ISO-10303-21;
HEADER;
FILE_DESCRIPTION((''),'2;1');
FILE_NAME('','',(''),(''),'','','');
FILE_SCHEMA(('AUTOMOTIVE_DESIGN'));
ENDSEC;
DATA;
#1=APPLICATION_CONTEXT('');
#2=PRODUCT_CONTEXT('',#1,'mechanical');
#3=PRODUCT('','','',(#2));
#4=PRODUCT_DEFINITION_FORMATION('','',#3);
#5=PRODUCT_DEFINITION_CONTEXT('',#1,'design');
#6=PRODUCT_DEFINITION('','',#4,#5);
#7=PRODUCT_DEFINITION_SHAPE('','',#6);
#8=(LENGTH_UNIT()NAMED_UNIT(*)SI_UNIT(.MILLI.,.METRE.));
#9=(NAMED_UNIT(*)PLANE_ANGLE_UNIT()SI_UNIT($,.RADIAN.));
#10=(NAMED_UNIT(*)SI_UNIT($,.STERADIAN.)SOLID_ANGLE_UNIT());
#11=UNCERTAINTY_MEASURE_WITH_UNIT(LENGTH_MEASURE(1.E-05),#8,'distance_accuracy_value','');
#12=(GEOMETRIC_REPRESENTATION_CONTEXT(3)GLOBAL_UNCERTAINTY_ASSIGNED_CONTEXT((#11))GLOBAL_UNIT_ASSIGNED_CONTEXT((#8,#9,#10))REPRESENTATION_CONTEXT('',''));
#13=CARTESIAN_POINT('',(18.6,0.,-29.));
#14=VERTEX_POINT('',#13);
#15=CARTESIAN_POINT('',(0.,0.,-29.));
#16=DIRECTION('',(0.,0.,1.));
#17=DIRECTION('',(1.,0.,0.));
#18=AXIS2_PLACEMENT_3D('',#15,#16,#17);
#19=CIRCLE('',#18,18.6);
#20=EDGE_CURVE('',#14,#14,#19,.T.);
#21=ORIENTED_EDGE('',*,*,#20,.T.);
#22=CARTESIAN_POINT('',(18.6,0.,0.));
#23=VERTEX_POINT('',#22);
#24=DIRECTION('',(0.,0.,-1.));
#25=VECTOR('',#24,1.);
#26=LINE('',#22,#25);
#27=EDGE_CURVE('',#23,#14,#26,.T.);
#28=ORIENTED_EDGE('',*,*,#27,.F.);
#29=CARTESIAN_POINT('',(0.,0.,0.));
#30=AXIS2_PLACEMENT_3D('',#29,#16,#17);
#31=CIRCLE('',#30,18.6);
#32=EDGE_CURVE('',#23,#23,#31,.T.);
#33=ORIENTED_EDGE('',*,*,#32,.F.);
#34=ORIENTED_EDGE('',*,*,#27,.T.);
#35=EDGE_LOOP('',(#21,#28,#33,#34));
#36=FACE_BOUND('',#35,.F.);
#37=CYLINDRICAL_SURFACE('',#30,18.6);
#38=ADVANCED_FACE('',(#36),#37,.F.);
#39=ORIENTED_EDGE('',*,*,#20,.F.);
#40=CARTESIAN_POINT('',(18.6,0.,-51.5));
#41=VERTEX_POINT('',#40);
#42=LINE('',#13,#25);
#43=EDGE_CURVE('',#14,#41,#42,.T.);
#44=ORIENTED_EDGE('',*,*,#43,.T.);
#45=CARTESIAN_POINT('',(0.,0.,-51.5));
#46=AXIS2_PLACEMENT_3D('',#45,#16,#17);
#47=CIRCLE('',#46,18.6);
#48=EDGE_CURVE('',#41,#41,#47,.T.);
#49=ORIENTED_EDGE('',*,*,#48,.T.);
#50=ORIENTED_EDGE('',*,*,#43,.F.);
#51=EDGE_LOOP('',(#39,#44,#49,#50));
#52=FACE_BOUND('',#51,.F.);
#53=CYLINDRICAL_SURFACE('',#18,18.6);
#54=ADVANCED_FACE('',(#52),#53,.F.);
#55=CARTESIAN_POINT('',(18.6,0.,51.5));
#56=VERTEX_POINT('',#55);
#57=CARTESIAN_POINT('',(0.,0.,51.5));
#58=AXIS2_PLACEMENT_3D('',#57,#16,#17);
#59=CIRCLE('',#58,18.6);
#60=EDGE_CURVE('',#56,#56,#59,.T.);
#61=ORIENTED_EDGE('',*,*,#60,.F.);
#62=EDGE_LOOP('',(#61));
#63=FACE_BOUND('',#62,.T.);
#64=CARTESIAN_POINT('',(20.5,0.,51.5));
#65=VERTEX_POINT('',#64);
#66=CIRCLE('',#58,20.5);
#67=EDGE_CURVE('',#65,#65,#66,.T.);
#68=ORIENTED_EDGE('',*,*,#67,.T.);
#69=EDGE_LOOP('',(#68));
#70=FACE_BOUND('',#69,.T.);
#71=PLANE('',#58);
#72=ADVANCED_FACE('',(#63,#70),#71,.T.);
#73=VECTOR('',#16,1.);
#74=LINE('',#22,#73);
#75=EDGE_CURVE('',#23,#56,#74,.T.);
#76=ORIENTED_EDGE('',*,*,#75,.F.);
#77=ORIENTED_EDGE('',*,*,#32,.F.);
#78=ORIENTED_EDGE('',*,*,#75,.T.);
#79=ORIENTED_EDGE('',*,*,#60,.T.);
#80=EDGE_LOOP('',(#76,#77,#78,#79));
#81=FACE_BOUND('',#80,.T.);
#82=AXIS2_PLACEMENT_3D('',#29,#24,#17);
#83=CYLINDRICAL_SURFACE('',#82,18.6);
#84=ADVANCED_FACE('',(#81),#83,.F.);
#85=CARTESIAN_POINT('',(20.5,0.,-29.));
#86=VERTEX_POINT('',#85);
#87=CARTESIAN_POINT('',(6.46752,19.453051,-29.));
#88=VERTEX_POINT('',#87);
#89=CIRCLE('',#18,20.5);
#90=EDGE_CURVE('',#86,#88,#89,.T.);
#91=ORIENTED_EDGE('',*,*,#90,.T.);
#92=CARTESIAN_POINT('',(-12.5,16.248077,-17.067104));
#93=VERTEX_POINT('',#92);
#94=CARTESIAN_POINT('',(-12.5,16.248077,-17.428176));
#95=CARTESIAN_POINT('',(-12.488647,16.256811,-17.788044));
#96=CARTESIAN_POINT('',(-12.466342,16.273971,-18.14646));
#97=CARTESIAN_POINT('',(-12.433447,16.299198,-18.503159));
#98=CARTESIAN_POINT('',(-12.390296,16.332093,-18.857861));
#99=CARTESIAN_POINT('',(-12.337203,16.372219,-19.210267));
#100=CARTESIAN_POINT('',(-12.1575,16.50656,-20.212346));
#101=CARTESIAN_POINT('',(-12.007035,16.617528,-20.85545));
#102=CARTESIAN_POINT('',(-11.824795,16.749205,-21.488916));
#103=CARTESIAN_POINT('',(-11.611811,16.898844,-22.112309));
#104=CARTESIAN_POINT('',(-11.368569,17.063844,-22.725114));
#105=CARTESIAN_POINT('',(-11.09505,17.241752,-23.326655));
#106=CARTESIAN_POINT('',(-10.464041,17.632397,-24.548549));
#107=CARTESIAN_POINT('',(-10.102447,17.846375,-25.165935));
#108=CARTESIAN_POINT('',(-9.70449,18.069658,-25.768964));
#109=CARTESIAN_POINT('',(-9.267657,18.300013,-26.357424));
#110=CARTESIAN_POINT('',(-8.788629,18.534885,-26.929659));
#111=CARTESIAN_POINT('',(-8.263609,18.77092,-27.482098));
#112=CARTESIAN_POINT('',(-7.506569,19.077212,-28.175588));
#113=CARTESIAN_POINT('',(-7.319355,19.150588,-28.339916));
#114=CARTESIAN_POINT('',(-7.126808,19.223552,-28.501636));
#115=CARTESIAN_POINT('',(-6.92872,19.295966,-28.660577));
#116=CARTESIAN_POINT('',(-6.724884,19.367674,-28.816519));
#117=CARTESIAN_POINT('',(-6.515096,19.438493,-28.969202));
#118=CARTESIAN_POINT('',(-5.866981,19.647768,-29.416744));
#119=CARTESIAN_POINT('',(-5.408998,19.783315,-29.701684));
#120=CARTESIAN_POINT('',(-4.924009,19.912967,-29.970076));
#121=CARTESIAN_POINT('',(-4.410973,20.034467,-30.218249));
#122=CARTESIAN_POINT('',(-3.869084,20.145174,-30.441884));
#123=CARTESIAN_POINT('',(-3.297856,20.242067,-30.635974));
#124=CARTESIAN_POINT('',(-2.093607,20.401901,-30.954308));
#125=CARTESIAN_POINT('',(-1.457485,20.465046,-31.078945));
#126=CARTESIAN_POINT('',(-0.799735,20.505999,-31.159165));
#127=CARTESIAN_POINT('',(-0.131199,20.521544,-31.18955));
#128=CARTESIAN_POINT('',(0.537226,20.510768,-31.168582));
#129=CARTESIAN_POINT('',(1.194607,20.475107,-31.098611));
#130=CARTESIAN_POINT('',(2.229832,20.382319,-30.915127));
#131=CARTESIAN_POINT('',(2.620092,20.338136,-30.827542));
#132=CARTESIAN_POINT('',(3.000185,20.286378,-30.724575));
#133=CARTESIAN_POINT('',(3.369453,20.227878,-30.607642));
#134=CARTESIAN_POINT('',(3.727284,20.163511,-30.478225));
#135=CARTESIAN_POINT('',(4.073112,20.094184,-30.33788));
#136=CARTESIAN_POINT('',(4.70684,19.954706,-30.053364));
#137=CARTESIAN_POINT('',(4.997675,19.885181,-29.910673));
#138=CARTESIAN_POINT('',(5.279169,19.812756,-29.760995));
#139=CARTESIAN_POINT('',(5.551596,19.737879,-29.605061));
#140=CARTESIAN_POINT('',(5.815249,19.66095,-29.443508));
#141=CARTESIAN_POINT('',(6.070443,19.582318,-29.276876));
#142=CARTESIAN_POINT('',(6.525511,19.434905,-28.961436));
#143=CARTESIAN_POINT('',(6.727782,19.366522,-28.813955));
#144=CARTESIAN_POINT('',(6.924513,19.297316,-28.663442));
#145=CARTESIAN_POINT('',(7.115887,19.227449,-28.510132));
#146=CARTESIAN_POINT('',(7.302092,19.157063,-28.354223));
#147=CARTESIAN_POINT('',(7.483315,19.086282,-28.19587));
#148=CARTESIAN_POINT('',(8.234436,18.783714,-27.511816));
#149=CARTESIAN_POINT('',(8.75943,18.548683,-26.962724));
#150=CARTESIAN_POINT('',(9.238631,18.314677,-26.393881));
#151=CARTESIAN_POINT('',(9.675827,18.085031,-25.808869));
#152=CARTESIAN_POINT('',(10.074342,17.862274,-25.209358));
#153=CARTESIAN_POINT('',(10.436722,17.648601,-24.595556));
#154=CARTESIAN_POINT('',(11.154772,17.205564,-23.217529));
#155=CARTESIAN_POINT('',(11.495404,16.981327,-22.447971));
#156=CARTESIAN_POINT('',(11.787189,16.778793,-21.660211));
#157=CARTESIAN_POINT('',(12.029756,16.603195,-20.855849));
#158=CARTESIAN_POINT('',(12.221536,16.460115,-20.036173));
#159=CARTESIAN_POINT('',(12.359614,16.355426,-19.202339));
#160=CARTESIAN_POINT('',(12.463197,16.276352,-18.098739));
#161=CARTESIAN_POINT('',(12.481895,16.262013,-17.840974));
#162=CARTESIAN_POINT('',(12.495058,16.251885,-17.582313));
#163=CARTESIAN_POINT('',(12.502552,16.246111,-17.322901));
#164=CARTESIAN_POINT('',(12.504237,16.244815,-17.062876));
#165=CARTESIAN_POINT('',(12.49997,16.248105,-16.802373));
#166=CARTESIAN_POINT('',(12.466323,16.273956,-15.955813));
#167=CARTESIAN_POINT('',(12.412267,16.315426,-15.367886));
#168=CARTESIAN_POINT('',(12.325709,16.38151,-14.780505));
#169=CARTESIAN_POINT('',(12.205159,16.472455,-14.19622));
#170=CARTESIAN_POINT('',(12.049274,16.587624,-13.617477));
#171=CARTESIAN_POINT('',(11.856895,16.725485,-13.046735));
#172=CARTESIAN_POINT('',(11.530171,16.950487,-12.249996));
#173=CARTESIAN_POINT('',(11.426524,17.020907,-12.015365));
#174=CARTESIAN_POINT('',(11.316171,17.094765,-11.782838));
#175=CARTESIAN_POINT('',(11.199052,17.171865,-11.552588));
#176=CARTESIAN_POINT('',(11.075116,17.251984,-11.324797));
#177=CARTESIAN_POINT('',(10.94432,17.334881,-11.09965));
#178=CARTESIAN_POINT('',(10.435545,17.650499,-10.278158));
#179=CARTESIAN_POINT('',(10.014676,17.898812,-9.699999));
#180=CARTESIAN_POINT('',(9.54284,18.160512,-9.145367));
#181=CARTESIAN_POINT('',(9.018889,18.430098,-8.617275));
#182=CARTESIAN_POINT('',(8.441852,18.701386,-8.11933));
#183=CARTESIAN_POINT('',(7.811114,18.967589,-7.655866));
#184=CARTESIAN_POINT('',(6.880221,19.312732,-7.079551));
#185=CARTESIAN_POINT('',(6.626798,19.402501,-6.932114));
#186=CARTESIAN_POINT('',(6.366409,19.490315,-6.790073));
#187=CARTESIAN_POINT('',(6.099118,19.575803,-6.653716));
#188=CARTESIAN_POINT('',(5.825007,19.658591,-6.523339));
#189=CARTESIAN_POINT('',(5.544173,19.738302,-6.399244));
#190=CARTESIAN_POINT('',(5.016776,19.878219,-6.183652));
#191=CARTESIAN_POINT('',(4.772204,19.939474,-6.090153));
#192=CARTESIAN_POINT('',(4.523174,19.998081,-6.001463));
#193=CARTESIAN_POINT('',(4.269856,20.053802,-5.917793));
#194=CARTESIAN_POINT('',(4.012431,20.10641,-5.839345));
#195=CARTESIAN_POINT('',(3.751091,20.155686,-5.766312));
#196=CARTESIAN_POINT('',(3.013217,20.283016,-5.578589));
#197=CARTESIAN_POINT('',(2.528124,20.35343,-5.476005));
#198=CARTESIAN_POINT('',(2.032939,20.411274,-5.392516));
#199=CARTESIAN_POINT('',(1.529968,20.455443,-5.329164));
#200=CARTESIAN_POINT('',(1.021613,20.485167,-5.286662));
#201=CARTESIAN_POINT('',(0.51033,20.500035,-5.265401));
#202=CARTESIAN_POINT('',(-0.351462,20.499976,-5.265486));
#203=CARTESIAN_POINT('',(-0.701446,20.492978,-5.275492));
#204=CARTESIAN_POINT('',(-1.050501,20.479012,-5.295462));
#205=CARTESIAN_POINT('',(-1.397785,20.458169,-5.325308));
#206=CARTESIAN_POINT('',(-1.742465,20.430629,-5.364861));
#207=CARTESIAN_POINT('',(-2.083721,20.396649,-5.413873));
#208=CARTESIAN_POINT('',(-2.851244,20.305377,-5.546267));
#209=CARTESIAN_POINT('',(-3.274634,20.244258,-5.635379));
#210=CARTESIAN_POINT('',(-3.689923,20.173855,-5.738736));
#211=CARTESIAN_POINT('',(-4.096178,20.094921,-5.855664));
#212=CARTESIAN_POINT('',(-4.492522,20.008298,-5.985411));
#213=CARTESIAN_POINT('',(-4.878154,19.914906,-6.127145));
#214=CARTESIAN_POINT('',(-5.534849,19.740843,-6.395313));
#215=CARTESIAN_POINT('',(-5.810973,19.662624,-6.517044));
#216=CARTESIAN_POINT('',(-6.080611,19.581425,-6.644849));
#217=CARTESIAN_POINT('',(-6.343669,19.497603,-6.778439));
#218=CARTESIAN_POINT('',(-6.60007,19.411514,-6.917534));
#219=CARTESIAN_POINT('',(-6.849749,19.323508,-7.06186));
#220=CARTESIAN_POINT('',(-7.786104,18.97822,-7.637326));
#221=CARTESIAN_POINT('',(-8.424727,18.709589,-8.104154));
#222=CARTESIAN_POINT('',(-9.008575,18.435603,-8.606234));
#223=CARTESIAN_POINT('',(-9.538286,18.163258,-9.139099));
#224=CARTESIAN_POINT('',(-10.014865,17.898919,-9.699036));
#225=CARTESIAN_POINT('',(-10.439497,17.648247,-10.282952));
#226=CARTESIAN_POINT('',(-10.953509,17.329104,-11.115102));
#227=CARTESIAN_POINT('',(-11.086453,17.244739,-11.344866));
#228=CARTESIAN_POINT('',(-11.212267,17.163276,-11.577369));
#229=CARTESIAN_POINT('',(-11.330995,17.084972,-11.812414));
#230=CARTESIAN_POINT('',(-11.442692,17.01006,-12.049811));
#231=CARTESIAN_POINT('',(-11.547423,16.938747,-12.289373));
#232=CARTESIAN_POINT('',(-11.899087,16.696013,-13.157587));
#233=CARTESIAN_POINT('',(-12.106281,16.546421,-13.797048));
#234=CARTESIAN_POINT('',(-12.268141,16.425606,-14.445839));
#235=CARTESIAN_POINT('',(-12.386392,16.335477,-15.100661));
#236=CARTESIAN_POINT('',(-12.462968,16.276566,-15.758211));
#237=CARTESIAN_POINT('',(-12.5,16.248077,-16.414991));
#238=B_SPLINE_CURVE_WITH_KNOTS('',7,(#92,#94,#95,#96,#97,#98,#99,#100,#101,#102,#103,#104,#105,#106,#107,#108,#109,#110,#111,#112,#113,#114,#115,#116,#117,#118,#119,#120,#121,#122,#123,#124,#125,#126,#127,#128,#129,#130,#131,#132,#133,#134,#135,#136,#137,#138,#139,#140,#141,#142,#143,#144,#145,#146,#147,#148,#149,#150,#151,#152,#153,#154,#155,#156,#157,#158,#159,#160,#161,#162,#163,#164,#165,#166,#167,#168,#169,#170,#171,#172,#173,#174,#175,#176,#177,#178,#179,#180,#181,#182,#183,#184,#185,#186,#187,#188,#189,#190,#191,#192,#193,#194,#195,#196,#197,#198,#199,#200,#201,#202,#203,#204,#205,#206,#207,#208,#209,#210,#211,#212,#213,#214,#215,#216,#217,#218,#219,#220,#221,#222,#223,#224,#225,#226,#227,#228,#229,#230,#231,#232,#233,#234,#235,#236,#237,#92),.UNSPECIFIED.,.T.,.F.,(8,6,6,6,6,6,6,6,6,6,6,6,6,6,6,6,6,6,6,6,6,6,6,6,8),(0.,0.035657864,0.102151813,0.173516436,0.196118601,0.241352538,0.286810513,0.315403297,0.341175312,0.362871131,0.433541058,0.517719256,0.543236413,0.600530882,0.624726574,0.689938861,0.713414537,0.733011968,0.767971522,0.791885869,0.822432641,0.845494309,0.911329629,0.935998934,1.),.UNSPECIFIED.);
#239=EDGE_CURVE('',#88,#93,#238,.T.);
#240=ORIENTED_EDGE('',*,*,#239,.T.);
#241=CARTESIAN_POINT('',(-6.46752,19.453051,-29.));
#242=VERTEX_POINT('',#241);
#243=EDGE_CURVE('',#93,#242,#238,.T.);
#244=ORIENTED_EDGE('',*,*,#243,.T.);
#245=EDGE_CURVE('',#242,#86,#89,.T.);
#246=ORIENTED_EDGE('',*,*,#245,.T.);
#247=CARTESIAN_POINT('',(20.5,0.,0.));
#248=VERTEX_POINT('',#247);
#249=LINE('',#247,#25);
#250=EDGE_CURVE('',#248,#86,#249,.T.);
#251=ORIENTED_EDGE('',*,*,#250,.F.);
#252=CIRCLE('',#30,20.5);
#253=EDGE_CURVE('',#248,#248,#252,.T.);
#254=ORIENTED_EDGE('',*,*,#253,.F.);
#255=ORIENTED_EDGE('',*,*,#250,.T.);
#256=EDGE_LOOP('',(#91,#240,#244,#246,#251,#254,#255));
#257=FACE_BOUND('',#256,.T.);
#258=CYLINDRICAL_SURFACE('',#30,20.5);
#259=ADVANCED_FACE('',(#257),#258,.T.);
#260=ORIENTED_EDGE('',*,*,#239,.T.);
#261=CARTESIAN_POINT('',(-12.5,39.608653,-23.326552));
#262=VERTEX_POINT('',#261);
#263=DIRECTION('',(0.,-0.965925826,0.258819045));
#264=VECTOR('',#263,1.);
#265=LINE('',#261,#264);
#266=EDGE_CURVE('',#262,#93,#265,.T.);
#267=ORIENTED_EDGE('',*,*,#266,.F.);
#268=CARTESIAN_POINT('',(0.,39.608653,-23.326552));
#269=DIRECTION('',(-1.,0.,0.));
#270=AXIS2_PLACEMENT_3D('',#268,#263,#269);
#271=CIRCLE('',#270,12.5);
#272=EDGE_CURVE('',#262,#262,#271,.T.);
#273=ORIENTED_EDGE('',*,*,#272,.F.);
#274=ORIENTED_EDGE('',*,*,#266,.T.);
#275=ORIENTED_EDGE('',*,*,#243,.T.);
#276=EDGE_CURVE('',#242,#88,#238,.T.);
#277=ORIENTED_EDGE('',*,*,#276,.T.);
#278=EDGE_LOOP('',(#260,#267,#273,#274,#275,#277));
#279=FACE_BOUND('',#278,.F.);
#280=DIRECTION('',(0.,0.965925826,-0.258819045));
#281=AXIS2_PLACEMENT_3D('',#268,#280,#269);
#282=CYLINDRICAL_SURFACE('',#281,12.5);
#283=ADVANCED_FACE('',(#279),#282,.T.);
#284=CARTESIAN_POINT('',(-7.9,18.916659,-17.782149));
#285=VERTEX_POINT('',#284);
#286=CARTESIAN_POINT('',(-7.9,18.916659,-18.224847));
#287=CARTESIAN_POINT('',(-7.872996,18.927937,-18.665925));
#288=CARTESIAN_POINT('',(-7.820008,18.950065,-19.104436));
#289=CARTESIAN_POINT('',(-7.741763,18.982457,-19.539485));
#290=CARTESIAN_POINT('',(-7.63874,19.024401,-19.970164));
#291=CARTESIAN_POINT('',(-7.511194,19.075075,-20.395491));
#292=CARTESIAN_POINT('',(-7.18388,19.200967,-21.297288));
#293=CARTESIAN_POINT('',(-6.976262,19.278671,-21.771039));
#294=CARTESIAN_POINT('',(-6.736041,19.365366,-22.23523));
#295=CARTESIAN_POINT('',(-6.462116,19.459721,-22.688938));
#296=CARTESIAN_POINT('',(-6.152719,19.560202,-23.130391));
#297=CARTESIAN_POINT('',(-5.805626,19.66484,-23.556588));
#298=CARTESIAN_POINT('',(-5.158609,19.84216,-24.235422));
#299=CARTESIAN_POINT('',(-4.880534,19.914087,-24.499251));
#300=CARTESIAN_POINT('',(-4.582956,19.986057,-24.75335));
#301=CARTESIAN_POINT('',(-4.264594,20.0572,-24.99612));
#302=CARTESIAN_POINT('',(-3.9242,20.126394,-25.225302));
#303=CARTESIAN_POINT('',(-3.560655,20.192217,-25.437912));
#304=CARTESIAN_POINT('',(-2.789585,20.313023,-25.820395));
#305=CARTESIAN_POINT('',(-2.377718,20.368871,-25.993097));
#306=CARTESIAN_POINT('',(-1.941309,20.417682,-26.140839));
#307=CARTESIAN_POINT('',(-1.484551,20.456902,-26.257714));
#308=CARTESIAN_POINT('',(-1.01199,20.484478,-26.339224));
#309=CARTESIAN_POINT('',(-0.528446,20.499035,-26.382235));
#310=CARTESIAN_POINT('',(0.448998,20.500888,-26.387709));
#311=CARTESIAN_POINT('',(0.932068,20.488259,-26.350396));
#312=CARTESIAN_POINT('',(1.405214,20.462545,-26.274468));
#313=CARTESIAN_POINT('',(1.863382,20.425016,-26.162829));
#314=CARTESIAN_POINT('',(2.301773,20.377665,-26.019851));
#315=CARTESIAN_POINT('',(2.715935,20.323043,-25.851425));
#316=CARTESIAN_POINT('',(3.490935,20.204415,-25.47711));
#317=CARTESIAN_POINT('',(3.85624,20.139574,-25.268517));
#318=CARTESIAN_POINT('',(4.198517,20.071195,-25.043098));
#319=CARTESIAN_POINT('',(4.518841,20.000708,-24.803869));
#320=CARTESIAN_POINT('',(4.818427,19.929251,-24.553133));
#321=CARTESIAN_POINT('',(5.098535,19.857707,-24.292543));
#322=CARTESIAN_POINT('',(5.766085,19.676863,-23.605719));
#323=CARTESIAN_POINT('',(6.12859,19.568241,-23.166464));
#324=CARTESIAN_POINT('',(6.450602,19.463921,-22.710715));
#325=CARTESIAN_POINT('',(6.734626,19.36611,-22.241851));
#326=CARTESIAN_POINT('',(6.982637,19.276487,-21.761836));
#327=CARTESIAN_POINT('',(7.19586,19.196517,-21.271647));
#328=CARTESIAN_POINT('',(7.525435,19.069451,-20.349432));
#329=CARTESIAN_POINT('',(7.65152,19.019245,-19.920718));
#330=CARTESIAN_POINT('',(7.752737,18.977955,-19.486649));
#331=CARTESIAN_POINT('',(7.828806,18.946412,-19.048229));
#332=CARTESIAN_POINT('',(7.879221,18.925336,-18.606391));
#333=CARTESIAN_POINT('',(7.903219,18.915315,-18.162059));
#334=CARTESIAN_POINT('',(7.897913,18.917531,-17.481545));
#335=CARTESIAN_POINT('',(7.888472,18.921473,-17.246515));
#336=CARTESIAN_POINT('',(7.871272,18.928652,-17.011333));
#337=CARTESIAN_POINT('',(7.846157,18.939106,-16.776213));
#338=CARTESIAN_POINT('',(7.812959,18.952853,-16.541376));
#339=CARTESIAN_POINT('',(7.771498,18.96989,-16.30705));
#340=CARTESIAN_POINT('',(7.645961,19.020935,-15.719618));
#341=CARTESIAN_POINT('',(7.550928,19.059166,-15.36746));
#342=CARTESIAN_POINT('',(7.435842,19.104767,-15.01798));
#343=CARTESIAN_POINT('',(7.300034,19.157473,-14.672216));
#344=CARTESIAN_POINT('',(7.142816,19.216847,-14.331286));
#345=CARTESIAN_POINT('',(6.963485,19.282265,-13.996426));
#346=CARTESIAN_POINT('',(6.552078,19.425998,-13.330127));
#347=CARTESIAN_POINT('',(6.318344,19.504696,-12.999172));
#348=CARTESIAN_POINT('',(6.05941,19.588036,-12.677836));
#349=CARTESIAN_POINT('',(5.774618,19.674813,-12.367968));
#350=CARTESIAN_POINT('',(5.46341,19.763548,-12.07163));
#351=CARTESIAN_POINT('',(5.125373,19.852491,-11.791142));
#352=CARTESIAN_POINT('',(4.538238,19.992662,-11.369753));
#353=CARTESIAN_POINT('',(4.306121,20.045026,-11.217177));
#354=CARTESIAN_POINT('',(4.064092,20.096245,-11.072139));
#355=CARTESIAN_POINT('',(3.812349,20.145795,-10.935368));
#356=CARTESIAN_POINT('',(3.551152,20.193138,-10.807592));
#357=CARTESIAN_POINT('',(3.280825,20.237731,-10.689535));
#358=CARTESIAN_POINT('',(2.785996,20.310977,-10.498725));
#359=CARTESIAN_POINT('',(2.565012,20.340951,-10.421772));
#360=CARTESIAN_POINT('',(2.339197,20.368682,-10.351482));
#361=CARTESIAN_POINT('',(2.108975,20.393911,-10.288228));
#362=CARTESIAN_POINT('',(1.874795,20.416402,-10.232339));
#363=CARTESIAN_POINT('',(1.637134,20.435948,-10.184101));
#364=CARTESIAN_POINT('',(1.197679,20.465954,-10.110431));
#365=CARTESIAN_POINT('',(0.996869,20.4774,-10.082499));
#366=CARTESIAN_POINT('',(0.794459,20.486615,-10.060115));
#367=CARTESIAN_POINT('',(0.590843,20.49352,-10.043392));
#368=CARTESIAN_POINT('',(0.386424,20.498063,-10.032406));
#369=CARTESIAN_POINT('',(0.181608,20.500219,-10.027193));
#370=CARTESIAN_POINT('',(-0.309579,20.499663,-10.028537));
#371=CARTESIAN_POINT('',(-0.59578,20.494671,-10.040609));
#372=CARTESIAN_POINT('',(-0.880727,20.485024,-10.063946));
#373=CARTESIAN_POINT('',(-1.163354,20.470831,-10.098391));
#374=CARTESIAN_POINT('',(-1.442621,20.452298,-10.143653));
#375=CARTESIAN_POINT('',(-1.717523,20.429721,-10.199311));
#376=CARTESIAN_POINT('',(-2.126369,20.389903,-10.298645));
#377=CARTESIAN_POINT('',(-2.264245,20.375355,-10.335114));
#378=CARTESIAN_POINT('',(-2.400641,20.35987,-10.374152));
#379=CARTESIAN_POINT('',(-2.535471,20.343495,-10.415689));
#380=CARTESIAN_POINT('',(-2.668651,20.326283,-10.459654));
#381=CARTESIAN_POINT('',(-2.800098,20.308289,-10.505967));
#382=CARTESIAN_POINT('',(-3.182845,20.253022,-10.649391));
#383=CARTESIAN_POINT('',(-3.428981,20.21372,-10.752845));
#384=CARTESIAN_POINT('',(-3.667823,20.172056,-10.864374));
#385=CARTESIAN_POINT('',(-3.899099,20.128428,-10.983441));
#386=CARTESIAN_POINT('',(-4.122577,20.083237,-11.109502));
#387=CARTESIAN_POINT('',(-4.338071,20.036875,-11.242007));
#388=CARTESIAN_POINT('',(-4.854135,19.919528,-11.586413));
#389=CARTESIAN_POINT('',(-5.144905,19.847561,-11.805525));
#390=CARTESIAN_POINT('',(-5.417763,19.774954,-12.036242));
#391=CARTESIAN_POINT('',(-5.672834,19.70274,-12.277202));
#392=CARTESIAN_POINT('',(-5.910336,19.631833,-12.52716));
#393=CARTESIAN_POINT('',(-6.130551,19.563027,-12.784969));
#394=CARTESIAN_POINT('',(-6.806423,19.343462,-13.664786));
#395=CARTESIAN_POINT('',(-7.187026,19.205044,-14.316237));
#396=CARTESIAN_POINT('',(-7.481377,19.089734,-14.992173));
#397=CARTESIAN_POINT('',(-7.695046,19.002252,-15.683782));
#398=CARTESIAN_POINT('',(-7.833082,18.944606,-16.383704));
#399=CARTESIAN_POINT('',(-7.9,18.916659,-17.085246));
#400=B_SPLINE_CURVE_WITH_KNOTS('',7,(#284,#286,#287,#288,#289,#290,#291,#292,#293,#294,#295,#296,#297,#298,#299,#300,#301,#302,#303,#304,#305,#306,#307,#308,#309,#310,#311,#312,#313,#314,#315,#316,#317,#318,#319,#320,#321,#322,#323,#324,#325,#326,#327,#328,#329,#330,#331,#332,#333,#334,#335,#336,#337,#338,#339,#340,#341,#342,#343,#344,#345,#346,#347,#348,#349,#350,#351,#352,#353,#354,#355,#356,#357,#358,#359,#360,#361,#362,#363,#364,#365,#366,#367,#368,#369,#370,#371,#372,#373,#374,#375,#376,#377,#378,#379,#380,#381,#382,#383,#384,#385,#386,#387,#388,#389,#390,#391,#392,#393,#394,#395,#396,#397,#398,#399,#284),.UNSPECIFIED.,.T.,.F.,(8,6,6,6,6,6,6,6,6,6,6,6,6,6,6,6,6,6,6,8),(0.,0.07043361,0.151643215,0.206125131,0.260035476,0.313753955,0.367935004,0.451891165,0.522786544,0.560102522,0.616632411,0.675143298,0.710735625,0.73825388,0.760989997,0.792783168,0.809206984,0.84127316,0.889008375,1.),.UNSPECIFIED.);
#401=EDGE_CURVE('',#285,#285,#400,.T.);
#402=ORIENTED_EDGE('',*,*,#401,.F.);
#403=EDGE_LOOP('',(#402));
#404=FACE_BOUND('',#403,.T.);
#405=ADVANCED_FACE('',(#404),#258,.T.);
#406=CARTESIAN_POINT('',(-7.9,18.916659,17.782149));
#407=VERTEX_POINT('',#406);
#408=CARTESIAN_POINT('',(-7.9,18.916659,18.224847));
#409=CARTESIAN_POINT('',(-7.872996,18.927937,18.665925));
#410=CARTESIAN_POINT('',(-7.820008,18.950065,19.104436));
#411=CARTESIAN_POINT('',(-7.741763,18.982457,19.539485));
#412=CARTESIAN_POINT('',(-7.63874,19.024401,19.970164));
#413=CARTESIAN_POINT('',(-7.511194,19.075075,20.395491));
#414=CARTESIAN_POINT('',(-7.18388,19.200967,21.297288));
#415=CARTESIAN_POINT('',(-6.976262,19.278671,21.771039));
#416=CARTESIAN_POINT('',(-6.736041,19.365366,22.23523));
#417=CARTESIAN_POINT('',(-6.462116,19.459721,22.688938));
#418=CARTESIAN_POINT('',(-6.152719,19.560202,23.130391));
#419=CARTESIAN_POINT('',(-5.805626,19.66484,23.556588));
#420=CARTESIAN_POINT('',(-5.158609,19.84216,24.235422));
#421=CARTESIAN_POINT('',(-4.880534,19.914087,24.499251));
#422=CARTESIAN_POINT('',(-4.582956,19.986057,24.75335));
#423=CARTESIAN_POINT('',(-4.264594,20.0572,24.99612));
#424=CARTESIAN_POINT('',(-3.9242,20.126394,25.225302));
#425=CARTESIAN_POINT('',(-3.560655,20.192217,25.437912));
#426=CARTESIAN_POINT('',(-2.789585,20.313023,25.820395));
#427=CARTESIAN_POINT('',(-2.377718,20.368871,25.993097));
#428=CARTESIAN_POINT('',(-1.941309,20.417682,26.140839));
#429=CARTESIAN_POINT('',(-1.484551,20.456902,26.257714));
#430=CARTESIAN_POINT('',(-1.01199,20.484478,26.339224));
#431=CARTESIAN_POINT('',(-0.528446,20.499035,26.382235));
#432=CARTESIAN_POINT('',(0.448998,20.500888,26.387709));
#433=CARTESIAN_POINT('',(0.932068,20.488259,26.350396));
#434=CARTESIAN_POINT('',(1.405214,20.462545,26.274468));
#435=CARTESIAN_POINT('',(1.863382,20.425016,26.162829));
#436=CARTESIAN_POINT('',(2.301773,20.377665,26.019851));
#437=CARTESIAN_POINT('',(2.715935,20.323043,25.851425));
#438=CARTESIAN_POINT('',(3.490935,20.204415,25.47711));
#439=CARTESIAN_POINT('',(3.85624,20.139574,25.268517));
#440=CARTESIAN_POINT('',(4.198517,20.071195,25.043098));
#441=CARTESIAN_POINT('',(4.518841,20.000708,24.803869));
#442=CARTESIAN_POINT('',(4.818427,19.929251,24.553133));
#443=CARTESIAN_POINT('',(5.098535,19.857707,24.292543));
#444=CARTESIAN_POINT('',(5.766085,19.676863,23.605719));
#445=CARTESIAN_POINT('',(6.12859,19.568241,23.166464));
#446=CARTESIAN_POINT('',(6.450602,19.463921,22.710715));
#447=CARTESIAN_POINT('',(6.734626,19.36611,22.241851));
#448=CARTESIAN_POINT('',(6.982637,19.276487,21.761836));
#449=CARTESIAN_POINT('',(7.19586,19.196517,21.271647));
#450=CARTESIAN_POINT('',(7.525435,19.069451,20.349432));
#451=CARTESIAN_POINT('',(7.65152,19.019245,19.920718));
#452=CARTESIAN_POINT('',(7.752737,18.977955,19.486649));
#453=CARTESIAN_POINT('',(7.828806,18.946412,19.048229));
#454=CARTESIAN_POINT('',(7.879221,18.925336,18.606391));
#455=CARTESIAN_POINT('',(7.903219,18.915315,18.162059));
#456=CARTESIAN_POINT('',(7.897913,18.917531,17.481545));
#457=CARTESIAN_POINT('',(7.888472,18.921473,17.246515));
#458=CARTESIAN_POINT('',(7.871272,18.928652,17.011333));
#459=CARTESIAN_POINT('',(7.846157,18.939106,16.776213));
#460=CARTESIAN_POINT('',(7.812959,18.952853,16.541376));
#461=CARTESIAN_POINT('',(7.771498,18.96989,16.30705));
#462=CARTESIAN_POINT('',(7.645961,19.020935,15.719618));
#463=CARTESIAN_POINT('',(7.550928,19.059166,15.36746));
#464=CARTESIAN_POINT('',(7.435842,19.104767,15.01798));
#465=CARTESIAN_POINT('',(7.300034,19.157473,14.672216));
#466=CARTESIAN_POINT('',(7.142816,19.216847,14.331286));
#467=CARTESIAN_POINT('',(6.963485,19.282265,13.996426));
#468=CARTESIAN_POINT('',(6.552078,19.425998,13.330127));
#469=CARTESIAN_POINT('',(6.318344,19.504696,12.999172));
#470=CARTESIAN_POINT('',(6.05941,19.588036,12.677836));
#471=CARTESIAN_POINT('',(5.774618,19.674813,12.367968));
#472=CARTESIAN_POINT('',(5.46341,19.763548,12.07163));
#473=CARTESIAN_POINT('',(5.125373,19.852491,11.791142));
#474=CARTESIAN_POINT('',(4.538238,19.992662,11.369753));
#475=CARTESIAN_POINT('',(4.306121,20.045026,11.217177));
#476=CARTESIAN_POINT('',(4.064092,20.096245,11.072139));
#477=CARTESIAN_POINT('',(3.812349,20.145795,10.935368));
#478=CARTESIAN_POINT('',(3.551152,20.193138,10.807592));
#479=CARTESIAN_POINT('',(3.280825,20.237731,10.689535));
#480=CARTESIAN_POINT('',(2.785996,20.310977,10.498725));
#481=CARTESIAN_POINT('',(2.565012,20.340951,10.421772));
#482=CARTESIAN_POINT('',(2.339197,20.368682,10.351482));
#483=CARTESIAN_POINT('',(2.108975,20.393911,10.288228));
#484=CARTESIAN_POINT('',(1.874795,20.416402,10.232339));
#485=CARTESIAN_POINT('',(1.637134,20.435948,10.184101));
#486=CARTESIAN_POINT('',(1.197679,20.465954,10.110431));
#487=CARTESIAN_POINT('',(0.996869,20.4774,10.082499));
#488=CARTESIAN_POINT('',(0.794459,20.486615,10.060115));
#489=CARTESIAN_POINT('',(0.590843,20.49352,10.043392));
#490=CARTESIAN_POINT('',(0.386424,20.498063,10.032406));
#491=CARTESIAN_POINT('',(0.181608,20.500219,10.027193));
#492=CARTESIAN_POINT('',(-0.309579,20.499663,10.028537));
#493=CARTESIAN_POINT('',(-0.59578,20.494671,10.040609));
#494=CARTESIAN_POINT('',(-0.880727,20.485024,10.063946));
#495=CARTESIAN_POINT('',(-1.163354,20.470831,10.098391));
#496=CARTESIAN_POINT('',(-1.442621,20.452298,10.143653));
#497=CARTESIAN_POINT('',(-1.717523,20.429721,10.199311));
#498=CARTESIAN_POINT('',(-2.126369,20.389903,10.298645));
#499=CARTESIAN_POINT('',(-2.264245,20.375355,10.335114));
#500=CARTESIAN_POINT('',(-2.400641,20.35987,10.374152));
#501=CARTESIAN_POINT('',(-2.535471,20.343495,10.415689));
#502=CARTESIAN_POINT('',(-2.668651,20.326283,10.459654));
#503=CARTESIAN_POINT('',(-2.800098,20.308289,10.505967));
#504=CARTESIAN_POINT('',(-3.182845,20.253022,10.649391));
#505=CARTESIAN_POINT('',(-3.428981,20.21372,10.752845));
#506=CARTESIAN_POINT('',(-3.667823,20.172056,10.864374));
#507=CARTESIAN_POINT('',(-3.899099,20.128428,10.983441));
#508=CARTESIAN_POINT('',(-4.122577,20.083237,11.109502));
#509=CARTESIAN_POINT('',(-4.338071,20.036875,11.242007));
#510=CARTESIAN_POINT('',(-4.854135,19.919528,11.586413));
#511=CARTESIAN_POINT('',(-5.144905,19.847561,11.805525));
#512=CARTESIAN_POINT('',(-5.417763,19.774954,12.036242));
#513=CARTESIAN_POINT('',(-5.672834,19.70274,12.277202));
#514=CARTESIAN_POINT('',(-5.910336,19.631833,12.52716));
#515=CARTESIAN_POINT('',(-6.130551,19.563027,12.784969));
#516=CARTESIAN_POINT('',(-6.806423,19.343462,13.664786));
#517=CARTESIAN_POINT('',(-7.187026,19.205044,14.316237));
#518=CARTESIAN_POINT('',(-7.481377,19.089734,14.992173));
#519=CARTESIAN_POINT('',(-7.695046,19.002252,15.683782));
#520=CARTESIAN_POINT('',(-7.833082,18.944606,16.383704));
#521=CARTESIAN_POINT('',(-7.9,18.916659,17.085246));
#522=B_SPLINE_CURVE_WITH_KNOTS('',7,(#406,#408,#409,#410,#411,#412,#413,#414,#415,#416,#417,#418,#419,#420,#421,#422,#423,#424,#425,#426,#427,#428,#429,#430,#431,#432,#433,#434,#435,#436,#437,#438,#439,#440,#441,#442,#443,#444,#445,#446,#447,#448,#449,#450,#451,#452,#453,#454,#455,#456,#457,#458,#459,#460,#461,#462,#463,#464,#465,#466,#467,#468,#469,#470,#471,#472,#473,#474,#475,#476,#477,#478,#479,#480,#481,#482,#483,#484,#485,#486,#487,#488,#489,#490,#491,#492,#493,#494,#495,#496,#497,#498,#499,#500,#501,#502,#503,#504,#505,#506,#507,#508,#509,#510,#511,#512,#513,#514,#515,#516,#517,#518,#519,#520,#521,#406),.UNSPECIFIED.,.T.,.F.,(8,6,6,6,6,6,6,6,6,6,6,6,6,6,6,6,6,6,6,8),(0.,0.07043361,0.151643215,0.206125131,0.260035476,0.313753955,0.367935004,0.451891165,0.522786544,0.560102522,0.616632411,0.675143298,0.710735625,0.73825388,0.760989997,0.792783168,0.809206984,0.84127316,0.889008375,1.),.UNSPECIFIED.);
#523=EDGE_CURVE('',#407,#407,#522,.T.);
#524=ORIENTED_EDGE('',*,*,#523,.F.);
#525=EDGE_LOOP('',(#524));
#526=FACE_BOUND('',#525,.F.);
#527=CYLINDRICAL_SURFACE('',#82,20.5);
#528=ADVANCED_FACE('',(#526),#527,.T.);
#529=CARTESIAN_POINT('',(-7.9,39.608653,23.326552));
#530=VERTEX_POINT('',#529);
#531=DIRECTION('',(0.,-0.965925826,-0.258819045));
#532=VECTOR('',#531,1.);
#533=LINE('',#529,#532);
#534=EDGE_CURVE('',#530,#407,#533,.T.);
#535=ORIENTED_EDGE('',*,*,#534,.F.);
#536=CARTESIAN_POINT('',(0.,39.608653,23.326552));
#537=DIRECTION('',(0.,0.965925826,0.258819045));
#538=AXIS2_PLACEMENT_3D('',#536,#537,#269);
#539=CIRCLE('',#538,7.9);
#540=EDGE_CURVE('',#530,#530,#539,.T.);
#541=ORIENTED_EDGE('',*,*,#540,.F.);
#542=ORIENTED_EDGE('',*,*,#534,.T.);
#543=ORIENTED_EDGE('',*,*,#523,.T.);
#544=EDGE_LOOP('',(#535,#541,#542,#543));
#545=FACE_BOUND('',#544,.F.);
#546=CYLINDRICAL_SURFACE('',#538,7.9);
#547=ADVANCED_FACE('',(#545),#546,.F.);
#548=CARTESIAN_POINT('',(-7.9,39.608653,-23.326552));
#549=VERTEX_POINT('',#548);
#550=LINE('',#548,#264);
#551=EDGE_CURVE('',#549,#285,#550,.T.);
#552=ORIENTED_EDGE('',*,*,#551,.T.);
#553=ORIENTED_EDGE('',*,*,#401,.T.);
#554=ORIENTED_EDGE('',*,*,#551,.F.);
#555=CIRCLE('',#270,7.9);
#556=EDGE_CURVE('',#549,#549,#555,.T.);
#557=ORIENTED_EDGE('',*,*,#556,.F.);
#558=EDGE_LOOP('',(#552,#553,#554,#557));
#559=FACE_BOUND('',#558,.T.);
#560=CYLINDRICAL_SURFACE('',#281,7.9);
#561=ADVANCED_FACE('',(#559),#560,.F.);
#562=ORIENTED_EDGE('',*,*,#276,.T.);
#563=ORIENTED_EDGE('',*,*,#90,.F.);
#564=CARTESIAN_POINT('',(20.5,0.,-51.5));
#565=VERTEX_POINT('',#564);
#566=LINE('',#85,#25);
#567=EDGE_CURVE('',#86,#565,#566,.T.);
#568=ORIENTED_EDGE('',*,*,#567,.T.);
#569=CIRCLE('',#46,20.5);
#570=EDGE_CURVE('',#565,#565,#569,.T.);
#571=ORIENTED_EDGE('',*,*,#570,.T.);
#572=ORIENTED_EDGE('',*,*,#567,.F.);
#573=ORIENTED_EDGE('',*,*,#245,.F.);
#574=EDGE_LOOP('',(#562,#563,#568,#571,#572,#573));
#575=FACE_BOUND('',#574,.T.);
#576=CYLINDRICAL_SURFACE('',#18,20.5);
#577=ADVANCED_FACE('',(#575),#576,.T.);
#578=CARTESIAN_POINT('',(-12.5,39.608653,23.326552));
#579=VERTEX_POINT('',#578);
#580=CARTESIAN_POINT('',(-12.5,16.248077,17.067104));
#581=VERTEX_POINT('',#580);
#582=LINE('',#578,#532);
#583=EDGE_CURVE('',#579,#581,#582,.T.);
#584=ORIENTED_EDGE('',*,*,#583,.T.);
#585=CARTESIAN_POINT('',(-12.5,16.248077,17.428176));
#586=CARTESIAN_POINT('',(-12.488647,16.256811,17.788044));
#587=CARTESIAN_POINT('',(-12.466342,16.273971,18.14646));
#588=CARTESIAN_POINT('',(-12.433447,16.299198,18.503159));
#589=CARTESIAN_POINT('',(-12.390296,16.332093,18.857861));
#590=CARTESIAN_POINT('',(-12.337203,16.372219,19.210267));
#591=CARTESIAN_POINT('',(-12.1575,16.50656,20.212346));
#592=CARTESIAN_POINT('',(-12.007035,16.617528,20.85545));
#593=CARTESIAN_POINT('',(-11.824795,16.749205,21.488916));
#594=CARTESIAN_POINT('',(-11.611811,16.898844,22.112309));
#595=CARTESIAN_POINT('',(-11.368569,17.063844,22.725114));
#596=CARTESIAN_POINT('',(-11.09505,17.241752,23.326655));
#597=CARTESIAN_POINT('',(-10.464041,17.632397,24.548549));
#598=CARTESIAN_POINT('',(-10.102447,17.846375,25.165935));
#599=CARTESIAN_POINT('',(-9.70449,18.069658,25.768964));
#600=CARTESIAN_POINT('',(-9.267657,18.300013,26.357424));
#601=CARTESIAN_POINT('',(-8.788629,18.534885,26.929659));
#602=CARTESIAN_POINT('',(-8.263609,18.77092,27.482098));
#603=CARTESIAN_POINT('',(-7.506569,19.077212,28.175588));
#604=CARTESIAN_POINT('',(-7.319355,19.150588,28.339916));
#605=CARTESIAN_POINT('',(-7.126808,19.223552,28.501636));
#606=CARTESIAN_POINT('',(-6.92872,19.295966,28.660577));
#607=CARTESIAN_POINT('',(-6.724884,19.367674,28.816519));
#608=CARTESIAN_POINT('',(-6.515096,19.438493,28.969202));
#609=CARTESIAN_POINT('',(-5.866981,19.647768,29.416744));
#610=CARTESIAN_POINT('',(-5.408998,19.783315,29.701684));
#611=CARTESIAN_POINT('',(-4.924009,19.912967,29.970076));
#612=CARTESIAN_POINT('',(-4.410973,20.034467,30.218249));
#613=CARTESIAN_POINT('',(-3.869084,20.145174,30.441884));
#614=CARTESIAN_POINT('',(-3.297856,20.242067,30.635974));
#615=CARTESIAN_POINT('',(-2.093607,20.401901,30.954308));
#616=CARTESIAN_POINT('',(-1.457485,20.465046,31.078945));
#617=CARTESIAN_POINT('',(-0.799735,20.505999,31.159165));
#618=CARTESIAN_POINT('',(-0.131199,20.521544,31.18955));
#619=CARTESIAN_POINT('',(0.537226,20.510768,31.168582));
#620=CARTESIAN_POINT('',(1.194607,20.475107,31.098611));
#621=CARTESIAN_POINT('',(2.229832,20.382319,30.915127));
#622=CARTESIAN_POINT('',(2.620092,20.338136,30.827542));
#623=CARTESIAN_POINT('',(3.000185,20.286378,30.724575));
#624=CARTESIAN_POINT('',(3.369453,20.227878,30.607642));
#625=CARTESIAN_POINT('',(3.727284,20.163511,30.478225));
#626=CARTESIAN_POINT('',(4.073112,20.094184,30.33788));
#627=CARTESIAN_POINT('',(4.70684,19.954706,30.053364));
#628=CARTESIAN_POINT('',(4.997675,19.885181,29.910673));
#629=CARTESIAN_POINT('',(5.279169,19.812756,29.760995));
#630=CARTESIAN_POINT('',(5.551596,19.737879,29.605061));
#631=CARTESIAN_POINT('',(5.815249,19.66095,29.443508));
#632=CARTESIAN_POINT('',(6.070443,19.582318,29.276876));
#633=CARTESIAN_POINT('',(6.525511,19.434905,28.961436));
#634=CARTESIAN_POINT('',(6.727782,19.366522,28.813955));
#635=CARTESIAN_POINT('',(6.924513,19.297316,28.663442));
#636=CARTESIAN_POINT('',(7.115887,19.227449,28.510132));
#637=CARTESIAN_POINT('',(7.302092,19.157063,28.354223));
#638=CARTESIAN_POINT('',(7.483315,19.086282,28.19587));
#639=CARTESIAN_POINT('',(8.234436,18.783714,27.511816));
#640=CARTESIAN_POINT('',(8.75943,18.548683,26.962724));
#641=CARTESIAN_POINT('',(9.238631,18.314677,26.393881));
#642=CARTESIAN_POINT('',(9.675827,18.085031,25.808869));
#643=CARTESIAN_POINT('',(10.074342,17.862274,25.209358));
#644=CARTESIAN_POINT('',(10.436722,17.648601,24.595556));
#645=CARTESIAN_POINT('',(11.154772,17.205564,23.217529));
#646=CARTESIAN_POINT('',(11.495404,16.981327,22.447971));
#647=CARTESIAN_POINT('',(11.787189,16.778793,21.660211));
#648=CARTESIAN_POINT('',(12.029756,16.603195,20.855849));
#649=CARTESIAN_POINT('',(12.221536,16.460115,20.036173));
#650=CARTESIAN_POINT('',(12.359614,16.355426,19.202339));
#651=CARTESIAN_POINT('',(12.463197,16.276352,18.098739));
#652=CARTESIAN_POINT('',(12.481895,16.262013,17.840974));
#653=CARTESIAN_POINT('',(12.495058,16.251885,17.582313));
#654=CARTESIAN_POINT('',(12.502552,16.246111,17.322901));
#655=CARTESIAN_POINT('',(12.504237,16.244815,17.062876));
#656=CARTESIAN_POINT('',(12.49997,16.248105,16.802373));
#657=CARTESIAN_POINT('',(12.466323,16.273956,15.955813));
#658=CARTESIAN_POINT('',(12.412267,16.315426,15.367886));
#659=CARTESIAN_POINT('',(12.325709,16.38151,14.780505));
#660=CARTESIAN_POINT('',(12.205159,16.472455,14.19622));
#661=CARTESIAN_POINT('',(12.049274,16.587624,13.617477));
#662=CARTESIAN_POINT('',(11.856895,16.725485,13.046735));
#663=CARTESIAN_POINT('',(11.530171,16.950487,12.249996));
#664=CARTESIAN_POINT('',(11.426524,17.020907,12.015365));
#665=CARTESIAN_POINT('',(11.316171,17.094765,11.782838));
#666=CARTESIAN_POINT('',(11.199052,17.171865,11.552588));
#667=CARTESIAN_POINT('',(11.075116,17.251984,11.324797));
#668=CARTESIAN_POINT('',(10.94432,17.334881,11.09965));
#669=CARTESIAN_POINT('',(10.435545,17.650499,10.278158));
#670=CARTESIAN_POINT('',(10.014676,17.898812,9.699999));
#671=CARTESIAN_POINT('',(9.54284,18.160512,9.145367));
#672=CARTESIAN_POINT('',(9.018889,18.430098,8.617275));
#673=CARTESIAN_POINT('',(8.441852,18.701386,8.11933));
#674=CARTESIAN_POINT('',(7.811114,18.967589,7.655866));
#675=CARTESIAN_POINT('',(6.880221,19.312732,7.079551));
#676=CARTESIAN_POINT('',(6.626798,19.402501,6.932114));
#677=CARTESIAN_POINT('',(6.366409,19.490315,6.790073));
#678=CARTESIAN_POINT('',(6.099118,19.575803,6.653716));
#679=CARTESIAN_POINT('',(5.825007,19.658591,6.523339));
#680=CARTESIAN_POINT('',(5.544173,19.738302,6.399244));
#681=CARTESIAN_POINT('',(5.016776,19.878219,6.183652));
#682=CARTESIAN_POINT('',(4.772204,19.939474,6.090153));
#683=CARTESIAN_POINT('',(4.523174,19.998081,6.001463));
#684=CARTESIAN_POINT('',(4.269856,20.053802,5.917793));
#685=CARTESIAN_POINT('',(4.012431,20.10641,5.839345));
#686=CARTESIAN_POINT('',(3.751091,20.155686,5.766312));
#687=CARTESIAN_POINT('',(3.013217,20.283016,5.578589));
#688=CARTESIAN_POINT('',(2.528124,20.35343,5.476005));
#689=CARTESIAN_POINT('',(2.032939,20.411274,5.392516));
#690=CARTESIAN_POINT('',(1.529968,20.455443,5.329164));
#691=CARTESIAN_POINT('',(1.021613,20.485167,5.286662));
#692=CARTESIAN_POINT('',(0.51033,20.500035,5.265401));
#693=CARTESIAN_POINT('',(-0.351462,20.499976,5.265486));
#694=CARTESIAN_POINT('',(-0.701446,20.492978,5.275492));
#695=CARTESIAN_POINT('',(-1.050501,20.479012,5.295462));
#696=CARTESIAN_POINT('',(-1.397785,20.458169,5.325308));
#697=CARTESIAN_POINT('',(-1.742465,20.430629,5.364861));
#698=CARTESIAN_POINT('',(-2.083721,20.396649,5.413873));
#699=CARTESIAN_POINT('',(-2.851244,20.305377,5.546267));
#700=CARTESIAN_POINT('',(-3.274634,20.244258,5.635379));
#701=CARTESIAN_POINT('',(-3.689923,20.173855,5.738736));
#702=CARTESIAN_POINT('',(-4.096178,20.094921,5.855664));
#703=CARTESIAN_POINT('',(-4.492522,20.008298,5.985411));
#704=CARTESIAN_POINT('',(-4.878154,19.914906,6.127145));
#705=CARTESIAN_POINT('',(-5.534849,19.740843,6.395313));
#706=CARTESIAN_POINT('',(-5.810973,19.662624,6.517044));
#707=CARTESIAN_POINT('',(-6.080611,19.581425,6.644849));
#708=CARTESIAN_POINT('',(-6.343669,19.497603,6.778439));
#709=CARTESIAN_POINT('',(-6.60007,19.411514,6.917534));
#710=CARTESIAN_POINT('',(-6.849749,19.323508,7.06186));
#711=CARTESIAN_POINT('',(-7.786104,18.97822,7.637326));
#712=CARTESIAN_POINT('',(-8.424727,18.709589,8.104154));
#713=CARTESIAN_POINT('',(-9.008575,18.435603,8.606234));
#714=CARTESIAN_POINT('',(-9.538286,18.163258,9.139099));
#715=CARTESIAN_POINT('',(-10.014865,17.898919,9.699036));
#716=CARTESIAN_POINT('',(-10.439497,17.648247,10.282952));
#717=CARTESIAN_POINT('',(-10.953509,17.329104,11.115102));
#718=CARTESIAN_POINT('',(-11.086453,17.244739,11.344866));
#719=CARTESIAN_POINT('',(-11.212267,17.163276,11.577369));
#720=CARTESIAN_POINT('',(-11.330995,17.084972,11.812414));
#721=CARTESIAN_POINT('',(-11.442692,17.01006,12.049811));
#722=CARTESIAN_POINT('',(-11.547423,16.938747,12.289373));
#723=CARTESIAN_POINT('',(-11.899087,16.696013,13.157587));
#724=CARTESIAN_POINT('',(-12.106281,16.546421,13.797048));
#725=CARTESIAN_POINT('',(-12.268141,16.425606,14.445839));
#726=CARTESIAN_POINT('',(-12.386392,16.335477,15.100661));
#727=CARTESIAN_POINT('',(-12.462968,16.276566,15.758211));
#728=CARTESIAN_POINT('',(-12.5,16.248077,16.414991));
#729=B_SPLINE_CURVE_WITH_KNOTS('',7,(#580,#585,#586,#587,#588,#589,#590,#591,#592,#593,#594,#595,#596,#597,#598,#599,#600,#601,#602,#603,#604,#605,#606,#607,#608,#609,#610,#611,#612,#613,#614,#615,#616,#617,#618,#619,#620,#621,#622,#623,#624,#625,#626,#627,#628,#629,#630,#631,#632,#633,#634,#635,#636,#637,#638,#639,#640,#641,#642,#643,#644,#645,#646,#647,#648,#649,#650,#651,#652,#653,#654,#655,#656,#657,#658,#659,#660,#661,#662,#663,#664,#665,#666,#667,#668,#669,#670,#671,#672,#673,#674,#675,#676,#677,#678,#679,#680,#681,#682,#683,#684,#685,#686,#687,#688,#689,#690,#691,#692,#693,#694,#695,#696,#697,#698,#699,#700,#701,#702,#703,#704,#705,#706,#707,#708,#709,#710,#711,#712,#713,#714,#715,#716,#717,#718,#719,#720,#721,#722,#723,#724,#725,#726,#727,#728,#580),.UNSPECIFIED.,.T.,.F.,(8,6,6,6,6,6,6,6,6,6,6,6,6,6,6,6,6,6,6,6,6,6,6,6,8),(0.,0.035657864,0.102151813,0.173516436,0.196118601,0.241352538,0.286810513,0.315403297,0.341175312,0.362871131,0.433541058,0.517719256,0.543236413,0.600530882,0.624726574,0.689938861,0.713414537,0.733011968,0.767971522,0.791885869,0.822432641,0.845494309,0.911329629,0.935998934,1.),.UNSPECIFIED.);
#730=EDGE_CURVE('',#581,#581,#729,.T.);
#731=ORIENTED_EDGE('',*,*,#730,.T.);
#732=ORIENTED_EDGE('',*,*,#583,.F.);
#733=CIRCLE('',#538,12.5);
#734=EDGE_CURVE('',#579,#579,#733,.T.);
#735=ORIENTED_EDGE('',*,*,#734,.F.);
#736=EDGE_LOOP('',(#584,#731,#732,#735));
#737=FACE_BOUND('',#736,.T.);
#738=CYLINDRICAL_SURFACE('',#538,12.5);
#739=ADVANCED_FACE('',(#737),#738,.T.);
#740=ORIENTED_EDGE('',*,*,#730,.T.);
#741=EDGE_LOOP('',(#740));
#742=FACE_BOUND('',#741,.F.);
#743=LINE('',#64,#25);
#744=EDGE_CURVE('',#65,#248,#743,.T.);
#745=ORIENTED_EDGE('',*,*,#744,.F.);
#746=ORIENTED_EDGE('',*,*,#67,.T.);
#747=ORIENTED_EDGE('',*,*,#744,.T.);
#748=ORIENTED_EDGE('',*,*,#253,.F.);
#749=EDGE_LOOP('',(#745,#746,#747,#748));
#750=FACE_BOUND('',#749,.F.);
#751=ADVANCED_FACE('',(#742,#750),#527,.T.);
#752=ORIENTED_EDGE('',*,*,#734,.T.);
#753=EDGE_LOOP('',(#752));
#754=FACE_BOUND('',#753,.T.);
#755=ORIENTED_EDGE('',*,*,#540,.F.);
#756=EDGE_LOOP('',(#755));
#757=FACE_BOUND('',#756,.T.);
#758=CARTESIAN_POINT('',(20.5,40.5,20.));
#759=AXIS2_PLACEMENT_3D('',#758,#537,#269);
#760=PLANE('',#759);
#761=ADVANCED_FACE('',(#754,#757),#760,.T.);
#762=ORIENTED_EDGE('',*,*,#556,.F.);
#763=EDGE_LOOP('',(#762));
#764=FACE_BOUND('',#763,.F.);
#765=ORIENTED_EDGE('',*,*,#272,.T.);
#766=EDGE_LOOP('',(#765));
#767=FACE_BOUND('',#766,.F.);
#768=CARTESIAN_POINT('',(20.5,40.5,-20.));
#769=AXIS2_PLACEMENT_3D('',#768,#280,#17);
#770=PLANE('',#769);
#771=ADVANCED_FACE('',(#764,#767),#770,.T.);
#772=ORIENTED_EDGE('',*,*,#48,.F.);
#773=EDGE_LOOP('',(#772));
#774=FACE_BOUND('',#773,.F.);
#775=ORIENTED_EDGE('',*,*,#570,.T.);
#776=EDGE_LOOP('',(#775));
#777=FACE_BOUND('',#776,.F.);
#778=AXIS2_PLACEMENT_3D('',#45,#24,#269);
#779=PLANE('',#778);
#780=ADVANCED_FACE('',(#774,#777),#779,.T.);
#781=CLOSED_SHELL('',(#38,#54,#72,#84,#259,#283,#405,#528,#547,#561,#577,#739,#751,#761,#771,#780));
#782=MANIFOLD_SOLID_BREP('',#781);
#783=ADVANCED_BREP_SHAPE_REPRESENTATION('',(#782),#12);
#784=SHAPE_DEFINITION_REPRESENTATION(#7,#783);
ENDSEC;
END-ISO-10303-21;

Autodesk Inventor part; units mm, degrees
sketch "Sketch1" plane through (0, 0, 0) normal (0, 0, 1) x (1, 0, 0)
  circle A0 centre (0, 0) radius 18.6
  circle A1 centre (0, 0) radius 20.5
  dimension "d0" = 37.2
  dimension "d1" = 41
extrude "Extrusion1" add sketch "Sketch1" along normal blind 29
ref_plane "Work Plane1" through (0, 0, 0) normal (0, 1, 0) x (0, 0, 1)
ref_plane "Work Plane2" through (0, 40.5, 0) normal (0, 1, 0) x (0, 0, 1)
sketch "Sketch3" plane through (0, 0, 29) normal (0, 0, 1) x (1, 0, 0)
  circle A0 centre (0, 0) radius 20.5 projected
  circle A1 centre (0, 0) radius 18.6 projected
extrude "Extrusion3" add sketch "Sketch3" along normal blind 22.5
ref_plane "Work Plane3" through (0, 20.5, 0) normal (0, 1, 0) x (-1, 0, 0)
sketch "Sketch5" plane through (0, 40.5, 0) normal (0, 1, 0) x (0, 0, 1)
  line L0 (0, -20.5) -> (0, 20.5) projected
  line L1 (20, 20.5) -> (20, -20.5)
  point P0 (0, 0)
  dimension "d29" = 20
ref_plane "Work Plane4" through (20.5, 40.5, 20) normal (0, 0.9659, 0.2588) x (-1, 0, 0)
sketch "Sketch8" plane through (20.5, 40.5, 20) normal (0, 0.9659, 0.2588) x (-1, 0, 0)
  circle A0 centre (20.5, 3.4439) radius 12.5
  circle A1 centre (20.5, 3.4439) radius 7.9
  point P0 (20.5, -8.8363)
  dimension "d44" = 25
  dimension "d45" = 15.8
extrude "Extrusion6" add sketch "Sketch8" against normal up to surface
mirror "Mirror3" about plane through (0, 0, 0) normal (0, 0, 1) of "Extrusion1", "Extrusion6", "Extrusion3"
properties part number "JuntaEjeCadera" material "PLA"
